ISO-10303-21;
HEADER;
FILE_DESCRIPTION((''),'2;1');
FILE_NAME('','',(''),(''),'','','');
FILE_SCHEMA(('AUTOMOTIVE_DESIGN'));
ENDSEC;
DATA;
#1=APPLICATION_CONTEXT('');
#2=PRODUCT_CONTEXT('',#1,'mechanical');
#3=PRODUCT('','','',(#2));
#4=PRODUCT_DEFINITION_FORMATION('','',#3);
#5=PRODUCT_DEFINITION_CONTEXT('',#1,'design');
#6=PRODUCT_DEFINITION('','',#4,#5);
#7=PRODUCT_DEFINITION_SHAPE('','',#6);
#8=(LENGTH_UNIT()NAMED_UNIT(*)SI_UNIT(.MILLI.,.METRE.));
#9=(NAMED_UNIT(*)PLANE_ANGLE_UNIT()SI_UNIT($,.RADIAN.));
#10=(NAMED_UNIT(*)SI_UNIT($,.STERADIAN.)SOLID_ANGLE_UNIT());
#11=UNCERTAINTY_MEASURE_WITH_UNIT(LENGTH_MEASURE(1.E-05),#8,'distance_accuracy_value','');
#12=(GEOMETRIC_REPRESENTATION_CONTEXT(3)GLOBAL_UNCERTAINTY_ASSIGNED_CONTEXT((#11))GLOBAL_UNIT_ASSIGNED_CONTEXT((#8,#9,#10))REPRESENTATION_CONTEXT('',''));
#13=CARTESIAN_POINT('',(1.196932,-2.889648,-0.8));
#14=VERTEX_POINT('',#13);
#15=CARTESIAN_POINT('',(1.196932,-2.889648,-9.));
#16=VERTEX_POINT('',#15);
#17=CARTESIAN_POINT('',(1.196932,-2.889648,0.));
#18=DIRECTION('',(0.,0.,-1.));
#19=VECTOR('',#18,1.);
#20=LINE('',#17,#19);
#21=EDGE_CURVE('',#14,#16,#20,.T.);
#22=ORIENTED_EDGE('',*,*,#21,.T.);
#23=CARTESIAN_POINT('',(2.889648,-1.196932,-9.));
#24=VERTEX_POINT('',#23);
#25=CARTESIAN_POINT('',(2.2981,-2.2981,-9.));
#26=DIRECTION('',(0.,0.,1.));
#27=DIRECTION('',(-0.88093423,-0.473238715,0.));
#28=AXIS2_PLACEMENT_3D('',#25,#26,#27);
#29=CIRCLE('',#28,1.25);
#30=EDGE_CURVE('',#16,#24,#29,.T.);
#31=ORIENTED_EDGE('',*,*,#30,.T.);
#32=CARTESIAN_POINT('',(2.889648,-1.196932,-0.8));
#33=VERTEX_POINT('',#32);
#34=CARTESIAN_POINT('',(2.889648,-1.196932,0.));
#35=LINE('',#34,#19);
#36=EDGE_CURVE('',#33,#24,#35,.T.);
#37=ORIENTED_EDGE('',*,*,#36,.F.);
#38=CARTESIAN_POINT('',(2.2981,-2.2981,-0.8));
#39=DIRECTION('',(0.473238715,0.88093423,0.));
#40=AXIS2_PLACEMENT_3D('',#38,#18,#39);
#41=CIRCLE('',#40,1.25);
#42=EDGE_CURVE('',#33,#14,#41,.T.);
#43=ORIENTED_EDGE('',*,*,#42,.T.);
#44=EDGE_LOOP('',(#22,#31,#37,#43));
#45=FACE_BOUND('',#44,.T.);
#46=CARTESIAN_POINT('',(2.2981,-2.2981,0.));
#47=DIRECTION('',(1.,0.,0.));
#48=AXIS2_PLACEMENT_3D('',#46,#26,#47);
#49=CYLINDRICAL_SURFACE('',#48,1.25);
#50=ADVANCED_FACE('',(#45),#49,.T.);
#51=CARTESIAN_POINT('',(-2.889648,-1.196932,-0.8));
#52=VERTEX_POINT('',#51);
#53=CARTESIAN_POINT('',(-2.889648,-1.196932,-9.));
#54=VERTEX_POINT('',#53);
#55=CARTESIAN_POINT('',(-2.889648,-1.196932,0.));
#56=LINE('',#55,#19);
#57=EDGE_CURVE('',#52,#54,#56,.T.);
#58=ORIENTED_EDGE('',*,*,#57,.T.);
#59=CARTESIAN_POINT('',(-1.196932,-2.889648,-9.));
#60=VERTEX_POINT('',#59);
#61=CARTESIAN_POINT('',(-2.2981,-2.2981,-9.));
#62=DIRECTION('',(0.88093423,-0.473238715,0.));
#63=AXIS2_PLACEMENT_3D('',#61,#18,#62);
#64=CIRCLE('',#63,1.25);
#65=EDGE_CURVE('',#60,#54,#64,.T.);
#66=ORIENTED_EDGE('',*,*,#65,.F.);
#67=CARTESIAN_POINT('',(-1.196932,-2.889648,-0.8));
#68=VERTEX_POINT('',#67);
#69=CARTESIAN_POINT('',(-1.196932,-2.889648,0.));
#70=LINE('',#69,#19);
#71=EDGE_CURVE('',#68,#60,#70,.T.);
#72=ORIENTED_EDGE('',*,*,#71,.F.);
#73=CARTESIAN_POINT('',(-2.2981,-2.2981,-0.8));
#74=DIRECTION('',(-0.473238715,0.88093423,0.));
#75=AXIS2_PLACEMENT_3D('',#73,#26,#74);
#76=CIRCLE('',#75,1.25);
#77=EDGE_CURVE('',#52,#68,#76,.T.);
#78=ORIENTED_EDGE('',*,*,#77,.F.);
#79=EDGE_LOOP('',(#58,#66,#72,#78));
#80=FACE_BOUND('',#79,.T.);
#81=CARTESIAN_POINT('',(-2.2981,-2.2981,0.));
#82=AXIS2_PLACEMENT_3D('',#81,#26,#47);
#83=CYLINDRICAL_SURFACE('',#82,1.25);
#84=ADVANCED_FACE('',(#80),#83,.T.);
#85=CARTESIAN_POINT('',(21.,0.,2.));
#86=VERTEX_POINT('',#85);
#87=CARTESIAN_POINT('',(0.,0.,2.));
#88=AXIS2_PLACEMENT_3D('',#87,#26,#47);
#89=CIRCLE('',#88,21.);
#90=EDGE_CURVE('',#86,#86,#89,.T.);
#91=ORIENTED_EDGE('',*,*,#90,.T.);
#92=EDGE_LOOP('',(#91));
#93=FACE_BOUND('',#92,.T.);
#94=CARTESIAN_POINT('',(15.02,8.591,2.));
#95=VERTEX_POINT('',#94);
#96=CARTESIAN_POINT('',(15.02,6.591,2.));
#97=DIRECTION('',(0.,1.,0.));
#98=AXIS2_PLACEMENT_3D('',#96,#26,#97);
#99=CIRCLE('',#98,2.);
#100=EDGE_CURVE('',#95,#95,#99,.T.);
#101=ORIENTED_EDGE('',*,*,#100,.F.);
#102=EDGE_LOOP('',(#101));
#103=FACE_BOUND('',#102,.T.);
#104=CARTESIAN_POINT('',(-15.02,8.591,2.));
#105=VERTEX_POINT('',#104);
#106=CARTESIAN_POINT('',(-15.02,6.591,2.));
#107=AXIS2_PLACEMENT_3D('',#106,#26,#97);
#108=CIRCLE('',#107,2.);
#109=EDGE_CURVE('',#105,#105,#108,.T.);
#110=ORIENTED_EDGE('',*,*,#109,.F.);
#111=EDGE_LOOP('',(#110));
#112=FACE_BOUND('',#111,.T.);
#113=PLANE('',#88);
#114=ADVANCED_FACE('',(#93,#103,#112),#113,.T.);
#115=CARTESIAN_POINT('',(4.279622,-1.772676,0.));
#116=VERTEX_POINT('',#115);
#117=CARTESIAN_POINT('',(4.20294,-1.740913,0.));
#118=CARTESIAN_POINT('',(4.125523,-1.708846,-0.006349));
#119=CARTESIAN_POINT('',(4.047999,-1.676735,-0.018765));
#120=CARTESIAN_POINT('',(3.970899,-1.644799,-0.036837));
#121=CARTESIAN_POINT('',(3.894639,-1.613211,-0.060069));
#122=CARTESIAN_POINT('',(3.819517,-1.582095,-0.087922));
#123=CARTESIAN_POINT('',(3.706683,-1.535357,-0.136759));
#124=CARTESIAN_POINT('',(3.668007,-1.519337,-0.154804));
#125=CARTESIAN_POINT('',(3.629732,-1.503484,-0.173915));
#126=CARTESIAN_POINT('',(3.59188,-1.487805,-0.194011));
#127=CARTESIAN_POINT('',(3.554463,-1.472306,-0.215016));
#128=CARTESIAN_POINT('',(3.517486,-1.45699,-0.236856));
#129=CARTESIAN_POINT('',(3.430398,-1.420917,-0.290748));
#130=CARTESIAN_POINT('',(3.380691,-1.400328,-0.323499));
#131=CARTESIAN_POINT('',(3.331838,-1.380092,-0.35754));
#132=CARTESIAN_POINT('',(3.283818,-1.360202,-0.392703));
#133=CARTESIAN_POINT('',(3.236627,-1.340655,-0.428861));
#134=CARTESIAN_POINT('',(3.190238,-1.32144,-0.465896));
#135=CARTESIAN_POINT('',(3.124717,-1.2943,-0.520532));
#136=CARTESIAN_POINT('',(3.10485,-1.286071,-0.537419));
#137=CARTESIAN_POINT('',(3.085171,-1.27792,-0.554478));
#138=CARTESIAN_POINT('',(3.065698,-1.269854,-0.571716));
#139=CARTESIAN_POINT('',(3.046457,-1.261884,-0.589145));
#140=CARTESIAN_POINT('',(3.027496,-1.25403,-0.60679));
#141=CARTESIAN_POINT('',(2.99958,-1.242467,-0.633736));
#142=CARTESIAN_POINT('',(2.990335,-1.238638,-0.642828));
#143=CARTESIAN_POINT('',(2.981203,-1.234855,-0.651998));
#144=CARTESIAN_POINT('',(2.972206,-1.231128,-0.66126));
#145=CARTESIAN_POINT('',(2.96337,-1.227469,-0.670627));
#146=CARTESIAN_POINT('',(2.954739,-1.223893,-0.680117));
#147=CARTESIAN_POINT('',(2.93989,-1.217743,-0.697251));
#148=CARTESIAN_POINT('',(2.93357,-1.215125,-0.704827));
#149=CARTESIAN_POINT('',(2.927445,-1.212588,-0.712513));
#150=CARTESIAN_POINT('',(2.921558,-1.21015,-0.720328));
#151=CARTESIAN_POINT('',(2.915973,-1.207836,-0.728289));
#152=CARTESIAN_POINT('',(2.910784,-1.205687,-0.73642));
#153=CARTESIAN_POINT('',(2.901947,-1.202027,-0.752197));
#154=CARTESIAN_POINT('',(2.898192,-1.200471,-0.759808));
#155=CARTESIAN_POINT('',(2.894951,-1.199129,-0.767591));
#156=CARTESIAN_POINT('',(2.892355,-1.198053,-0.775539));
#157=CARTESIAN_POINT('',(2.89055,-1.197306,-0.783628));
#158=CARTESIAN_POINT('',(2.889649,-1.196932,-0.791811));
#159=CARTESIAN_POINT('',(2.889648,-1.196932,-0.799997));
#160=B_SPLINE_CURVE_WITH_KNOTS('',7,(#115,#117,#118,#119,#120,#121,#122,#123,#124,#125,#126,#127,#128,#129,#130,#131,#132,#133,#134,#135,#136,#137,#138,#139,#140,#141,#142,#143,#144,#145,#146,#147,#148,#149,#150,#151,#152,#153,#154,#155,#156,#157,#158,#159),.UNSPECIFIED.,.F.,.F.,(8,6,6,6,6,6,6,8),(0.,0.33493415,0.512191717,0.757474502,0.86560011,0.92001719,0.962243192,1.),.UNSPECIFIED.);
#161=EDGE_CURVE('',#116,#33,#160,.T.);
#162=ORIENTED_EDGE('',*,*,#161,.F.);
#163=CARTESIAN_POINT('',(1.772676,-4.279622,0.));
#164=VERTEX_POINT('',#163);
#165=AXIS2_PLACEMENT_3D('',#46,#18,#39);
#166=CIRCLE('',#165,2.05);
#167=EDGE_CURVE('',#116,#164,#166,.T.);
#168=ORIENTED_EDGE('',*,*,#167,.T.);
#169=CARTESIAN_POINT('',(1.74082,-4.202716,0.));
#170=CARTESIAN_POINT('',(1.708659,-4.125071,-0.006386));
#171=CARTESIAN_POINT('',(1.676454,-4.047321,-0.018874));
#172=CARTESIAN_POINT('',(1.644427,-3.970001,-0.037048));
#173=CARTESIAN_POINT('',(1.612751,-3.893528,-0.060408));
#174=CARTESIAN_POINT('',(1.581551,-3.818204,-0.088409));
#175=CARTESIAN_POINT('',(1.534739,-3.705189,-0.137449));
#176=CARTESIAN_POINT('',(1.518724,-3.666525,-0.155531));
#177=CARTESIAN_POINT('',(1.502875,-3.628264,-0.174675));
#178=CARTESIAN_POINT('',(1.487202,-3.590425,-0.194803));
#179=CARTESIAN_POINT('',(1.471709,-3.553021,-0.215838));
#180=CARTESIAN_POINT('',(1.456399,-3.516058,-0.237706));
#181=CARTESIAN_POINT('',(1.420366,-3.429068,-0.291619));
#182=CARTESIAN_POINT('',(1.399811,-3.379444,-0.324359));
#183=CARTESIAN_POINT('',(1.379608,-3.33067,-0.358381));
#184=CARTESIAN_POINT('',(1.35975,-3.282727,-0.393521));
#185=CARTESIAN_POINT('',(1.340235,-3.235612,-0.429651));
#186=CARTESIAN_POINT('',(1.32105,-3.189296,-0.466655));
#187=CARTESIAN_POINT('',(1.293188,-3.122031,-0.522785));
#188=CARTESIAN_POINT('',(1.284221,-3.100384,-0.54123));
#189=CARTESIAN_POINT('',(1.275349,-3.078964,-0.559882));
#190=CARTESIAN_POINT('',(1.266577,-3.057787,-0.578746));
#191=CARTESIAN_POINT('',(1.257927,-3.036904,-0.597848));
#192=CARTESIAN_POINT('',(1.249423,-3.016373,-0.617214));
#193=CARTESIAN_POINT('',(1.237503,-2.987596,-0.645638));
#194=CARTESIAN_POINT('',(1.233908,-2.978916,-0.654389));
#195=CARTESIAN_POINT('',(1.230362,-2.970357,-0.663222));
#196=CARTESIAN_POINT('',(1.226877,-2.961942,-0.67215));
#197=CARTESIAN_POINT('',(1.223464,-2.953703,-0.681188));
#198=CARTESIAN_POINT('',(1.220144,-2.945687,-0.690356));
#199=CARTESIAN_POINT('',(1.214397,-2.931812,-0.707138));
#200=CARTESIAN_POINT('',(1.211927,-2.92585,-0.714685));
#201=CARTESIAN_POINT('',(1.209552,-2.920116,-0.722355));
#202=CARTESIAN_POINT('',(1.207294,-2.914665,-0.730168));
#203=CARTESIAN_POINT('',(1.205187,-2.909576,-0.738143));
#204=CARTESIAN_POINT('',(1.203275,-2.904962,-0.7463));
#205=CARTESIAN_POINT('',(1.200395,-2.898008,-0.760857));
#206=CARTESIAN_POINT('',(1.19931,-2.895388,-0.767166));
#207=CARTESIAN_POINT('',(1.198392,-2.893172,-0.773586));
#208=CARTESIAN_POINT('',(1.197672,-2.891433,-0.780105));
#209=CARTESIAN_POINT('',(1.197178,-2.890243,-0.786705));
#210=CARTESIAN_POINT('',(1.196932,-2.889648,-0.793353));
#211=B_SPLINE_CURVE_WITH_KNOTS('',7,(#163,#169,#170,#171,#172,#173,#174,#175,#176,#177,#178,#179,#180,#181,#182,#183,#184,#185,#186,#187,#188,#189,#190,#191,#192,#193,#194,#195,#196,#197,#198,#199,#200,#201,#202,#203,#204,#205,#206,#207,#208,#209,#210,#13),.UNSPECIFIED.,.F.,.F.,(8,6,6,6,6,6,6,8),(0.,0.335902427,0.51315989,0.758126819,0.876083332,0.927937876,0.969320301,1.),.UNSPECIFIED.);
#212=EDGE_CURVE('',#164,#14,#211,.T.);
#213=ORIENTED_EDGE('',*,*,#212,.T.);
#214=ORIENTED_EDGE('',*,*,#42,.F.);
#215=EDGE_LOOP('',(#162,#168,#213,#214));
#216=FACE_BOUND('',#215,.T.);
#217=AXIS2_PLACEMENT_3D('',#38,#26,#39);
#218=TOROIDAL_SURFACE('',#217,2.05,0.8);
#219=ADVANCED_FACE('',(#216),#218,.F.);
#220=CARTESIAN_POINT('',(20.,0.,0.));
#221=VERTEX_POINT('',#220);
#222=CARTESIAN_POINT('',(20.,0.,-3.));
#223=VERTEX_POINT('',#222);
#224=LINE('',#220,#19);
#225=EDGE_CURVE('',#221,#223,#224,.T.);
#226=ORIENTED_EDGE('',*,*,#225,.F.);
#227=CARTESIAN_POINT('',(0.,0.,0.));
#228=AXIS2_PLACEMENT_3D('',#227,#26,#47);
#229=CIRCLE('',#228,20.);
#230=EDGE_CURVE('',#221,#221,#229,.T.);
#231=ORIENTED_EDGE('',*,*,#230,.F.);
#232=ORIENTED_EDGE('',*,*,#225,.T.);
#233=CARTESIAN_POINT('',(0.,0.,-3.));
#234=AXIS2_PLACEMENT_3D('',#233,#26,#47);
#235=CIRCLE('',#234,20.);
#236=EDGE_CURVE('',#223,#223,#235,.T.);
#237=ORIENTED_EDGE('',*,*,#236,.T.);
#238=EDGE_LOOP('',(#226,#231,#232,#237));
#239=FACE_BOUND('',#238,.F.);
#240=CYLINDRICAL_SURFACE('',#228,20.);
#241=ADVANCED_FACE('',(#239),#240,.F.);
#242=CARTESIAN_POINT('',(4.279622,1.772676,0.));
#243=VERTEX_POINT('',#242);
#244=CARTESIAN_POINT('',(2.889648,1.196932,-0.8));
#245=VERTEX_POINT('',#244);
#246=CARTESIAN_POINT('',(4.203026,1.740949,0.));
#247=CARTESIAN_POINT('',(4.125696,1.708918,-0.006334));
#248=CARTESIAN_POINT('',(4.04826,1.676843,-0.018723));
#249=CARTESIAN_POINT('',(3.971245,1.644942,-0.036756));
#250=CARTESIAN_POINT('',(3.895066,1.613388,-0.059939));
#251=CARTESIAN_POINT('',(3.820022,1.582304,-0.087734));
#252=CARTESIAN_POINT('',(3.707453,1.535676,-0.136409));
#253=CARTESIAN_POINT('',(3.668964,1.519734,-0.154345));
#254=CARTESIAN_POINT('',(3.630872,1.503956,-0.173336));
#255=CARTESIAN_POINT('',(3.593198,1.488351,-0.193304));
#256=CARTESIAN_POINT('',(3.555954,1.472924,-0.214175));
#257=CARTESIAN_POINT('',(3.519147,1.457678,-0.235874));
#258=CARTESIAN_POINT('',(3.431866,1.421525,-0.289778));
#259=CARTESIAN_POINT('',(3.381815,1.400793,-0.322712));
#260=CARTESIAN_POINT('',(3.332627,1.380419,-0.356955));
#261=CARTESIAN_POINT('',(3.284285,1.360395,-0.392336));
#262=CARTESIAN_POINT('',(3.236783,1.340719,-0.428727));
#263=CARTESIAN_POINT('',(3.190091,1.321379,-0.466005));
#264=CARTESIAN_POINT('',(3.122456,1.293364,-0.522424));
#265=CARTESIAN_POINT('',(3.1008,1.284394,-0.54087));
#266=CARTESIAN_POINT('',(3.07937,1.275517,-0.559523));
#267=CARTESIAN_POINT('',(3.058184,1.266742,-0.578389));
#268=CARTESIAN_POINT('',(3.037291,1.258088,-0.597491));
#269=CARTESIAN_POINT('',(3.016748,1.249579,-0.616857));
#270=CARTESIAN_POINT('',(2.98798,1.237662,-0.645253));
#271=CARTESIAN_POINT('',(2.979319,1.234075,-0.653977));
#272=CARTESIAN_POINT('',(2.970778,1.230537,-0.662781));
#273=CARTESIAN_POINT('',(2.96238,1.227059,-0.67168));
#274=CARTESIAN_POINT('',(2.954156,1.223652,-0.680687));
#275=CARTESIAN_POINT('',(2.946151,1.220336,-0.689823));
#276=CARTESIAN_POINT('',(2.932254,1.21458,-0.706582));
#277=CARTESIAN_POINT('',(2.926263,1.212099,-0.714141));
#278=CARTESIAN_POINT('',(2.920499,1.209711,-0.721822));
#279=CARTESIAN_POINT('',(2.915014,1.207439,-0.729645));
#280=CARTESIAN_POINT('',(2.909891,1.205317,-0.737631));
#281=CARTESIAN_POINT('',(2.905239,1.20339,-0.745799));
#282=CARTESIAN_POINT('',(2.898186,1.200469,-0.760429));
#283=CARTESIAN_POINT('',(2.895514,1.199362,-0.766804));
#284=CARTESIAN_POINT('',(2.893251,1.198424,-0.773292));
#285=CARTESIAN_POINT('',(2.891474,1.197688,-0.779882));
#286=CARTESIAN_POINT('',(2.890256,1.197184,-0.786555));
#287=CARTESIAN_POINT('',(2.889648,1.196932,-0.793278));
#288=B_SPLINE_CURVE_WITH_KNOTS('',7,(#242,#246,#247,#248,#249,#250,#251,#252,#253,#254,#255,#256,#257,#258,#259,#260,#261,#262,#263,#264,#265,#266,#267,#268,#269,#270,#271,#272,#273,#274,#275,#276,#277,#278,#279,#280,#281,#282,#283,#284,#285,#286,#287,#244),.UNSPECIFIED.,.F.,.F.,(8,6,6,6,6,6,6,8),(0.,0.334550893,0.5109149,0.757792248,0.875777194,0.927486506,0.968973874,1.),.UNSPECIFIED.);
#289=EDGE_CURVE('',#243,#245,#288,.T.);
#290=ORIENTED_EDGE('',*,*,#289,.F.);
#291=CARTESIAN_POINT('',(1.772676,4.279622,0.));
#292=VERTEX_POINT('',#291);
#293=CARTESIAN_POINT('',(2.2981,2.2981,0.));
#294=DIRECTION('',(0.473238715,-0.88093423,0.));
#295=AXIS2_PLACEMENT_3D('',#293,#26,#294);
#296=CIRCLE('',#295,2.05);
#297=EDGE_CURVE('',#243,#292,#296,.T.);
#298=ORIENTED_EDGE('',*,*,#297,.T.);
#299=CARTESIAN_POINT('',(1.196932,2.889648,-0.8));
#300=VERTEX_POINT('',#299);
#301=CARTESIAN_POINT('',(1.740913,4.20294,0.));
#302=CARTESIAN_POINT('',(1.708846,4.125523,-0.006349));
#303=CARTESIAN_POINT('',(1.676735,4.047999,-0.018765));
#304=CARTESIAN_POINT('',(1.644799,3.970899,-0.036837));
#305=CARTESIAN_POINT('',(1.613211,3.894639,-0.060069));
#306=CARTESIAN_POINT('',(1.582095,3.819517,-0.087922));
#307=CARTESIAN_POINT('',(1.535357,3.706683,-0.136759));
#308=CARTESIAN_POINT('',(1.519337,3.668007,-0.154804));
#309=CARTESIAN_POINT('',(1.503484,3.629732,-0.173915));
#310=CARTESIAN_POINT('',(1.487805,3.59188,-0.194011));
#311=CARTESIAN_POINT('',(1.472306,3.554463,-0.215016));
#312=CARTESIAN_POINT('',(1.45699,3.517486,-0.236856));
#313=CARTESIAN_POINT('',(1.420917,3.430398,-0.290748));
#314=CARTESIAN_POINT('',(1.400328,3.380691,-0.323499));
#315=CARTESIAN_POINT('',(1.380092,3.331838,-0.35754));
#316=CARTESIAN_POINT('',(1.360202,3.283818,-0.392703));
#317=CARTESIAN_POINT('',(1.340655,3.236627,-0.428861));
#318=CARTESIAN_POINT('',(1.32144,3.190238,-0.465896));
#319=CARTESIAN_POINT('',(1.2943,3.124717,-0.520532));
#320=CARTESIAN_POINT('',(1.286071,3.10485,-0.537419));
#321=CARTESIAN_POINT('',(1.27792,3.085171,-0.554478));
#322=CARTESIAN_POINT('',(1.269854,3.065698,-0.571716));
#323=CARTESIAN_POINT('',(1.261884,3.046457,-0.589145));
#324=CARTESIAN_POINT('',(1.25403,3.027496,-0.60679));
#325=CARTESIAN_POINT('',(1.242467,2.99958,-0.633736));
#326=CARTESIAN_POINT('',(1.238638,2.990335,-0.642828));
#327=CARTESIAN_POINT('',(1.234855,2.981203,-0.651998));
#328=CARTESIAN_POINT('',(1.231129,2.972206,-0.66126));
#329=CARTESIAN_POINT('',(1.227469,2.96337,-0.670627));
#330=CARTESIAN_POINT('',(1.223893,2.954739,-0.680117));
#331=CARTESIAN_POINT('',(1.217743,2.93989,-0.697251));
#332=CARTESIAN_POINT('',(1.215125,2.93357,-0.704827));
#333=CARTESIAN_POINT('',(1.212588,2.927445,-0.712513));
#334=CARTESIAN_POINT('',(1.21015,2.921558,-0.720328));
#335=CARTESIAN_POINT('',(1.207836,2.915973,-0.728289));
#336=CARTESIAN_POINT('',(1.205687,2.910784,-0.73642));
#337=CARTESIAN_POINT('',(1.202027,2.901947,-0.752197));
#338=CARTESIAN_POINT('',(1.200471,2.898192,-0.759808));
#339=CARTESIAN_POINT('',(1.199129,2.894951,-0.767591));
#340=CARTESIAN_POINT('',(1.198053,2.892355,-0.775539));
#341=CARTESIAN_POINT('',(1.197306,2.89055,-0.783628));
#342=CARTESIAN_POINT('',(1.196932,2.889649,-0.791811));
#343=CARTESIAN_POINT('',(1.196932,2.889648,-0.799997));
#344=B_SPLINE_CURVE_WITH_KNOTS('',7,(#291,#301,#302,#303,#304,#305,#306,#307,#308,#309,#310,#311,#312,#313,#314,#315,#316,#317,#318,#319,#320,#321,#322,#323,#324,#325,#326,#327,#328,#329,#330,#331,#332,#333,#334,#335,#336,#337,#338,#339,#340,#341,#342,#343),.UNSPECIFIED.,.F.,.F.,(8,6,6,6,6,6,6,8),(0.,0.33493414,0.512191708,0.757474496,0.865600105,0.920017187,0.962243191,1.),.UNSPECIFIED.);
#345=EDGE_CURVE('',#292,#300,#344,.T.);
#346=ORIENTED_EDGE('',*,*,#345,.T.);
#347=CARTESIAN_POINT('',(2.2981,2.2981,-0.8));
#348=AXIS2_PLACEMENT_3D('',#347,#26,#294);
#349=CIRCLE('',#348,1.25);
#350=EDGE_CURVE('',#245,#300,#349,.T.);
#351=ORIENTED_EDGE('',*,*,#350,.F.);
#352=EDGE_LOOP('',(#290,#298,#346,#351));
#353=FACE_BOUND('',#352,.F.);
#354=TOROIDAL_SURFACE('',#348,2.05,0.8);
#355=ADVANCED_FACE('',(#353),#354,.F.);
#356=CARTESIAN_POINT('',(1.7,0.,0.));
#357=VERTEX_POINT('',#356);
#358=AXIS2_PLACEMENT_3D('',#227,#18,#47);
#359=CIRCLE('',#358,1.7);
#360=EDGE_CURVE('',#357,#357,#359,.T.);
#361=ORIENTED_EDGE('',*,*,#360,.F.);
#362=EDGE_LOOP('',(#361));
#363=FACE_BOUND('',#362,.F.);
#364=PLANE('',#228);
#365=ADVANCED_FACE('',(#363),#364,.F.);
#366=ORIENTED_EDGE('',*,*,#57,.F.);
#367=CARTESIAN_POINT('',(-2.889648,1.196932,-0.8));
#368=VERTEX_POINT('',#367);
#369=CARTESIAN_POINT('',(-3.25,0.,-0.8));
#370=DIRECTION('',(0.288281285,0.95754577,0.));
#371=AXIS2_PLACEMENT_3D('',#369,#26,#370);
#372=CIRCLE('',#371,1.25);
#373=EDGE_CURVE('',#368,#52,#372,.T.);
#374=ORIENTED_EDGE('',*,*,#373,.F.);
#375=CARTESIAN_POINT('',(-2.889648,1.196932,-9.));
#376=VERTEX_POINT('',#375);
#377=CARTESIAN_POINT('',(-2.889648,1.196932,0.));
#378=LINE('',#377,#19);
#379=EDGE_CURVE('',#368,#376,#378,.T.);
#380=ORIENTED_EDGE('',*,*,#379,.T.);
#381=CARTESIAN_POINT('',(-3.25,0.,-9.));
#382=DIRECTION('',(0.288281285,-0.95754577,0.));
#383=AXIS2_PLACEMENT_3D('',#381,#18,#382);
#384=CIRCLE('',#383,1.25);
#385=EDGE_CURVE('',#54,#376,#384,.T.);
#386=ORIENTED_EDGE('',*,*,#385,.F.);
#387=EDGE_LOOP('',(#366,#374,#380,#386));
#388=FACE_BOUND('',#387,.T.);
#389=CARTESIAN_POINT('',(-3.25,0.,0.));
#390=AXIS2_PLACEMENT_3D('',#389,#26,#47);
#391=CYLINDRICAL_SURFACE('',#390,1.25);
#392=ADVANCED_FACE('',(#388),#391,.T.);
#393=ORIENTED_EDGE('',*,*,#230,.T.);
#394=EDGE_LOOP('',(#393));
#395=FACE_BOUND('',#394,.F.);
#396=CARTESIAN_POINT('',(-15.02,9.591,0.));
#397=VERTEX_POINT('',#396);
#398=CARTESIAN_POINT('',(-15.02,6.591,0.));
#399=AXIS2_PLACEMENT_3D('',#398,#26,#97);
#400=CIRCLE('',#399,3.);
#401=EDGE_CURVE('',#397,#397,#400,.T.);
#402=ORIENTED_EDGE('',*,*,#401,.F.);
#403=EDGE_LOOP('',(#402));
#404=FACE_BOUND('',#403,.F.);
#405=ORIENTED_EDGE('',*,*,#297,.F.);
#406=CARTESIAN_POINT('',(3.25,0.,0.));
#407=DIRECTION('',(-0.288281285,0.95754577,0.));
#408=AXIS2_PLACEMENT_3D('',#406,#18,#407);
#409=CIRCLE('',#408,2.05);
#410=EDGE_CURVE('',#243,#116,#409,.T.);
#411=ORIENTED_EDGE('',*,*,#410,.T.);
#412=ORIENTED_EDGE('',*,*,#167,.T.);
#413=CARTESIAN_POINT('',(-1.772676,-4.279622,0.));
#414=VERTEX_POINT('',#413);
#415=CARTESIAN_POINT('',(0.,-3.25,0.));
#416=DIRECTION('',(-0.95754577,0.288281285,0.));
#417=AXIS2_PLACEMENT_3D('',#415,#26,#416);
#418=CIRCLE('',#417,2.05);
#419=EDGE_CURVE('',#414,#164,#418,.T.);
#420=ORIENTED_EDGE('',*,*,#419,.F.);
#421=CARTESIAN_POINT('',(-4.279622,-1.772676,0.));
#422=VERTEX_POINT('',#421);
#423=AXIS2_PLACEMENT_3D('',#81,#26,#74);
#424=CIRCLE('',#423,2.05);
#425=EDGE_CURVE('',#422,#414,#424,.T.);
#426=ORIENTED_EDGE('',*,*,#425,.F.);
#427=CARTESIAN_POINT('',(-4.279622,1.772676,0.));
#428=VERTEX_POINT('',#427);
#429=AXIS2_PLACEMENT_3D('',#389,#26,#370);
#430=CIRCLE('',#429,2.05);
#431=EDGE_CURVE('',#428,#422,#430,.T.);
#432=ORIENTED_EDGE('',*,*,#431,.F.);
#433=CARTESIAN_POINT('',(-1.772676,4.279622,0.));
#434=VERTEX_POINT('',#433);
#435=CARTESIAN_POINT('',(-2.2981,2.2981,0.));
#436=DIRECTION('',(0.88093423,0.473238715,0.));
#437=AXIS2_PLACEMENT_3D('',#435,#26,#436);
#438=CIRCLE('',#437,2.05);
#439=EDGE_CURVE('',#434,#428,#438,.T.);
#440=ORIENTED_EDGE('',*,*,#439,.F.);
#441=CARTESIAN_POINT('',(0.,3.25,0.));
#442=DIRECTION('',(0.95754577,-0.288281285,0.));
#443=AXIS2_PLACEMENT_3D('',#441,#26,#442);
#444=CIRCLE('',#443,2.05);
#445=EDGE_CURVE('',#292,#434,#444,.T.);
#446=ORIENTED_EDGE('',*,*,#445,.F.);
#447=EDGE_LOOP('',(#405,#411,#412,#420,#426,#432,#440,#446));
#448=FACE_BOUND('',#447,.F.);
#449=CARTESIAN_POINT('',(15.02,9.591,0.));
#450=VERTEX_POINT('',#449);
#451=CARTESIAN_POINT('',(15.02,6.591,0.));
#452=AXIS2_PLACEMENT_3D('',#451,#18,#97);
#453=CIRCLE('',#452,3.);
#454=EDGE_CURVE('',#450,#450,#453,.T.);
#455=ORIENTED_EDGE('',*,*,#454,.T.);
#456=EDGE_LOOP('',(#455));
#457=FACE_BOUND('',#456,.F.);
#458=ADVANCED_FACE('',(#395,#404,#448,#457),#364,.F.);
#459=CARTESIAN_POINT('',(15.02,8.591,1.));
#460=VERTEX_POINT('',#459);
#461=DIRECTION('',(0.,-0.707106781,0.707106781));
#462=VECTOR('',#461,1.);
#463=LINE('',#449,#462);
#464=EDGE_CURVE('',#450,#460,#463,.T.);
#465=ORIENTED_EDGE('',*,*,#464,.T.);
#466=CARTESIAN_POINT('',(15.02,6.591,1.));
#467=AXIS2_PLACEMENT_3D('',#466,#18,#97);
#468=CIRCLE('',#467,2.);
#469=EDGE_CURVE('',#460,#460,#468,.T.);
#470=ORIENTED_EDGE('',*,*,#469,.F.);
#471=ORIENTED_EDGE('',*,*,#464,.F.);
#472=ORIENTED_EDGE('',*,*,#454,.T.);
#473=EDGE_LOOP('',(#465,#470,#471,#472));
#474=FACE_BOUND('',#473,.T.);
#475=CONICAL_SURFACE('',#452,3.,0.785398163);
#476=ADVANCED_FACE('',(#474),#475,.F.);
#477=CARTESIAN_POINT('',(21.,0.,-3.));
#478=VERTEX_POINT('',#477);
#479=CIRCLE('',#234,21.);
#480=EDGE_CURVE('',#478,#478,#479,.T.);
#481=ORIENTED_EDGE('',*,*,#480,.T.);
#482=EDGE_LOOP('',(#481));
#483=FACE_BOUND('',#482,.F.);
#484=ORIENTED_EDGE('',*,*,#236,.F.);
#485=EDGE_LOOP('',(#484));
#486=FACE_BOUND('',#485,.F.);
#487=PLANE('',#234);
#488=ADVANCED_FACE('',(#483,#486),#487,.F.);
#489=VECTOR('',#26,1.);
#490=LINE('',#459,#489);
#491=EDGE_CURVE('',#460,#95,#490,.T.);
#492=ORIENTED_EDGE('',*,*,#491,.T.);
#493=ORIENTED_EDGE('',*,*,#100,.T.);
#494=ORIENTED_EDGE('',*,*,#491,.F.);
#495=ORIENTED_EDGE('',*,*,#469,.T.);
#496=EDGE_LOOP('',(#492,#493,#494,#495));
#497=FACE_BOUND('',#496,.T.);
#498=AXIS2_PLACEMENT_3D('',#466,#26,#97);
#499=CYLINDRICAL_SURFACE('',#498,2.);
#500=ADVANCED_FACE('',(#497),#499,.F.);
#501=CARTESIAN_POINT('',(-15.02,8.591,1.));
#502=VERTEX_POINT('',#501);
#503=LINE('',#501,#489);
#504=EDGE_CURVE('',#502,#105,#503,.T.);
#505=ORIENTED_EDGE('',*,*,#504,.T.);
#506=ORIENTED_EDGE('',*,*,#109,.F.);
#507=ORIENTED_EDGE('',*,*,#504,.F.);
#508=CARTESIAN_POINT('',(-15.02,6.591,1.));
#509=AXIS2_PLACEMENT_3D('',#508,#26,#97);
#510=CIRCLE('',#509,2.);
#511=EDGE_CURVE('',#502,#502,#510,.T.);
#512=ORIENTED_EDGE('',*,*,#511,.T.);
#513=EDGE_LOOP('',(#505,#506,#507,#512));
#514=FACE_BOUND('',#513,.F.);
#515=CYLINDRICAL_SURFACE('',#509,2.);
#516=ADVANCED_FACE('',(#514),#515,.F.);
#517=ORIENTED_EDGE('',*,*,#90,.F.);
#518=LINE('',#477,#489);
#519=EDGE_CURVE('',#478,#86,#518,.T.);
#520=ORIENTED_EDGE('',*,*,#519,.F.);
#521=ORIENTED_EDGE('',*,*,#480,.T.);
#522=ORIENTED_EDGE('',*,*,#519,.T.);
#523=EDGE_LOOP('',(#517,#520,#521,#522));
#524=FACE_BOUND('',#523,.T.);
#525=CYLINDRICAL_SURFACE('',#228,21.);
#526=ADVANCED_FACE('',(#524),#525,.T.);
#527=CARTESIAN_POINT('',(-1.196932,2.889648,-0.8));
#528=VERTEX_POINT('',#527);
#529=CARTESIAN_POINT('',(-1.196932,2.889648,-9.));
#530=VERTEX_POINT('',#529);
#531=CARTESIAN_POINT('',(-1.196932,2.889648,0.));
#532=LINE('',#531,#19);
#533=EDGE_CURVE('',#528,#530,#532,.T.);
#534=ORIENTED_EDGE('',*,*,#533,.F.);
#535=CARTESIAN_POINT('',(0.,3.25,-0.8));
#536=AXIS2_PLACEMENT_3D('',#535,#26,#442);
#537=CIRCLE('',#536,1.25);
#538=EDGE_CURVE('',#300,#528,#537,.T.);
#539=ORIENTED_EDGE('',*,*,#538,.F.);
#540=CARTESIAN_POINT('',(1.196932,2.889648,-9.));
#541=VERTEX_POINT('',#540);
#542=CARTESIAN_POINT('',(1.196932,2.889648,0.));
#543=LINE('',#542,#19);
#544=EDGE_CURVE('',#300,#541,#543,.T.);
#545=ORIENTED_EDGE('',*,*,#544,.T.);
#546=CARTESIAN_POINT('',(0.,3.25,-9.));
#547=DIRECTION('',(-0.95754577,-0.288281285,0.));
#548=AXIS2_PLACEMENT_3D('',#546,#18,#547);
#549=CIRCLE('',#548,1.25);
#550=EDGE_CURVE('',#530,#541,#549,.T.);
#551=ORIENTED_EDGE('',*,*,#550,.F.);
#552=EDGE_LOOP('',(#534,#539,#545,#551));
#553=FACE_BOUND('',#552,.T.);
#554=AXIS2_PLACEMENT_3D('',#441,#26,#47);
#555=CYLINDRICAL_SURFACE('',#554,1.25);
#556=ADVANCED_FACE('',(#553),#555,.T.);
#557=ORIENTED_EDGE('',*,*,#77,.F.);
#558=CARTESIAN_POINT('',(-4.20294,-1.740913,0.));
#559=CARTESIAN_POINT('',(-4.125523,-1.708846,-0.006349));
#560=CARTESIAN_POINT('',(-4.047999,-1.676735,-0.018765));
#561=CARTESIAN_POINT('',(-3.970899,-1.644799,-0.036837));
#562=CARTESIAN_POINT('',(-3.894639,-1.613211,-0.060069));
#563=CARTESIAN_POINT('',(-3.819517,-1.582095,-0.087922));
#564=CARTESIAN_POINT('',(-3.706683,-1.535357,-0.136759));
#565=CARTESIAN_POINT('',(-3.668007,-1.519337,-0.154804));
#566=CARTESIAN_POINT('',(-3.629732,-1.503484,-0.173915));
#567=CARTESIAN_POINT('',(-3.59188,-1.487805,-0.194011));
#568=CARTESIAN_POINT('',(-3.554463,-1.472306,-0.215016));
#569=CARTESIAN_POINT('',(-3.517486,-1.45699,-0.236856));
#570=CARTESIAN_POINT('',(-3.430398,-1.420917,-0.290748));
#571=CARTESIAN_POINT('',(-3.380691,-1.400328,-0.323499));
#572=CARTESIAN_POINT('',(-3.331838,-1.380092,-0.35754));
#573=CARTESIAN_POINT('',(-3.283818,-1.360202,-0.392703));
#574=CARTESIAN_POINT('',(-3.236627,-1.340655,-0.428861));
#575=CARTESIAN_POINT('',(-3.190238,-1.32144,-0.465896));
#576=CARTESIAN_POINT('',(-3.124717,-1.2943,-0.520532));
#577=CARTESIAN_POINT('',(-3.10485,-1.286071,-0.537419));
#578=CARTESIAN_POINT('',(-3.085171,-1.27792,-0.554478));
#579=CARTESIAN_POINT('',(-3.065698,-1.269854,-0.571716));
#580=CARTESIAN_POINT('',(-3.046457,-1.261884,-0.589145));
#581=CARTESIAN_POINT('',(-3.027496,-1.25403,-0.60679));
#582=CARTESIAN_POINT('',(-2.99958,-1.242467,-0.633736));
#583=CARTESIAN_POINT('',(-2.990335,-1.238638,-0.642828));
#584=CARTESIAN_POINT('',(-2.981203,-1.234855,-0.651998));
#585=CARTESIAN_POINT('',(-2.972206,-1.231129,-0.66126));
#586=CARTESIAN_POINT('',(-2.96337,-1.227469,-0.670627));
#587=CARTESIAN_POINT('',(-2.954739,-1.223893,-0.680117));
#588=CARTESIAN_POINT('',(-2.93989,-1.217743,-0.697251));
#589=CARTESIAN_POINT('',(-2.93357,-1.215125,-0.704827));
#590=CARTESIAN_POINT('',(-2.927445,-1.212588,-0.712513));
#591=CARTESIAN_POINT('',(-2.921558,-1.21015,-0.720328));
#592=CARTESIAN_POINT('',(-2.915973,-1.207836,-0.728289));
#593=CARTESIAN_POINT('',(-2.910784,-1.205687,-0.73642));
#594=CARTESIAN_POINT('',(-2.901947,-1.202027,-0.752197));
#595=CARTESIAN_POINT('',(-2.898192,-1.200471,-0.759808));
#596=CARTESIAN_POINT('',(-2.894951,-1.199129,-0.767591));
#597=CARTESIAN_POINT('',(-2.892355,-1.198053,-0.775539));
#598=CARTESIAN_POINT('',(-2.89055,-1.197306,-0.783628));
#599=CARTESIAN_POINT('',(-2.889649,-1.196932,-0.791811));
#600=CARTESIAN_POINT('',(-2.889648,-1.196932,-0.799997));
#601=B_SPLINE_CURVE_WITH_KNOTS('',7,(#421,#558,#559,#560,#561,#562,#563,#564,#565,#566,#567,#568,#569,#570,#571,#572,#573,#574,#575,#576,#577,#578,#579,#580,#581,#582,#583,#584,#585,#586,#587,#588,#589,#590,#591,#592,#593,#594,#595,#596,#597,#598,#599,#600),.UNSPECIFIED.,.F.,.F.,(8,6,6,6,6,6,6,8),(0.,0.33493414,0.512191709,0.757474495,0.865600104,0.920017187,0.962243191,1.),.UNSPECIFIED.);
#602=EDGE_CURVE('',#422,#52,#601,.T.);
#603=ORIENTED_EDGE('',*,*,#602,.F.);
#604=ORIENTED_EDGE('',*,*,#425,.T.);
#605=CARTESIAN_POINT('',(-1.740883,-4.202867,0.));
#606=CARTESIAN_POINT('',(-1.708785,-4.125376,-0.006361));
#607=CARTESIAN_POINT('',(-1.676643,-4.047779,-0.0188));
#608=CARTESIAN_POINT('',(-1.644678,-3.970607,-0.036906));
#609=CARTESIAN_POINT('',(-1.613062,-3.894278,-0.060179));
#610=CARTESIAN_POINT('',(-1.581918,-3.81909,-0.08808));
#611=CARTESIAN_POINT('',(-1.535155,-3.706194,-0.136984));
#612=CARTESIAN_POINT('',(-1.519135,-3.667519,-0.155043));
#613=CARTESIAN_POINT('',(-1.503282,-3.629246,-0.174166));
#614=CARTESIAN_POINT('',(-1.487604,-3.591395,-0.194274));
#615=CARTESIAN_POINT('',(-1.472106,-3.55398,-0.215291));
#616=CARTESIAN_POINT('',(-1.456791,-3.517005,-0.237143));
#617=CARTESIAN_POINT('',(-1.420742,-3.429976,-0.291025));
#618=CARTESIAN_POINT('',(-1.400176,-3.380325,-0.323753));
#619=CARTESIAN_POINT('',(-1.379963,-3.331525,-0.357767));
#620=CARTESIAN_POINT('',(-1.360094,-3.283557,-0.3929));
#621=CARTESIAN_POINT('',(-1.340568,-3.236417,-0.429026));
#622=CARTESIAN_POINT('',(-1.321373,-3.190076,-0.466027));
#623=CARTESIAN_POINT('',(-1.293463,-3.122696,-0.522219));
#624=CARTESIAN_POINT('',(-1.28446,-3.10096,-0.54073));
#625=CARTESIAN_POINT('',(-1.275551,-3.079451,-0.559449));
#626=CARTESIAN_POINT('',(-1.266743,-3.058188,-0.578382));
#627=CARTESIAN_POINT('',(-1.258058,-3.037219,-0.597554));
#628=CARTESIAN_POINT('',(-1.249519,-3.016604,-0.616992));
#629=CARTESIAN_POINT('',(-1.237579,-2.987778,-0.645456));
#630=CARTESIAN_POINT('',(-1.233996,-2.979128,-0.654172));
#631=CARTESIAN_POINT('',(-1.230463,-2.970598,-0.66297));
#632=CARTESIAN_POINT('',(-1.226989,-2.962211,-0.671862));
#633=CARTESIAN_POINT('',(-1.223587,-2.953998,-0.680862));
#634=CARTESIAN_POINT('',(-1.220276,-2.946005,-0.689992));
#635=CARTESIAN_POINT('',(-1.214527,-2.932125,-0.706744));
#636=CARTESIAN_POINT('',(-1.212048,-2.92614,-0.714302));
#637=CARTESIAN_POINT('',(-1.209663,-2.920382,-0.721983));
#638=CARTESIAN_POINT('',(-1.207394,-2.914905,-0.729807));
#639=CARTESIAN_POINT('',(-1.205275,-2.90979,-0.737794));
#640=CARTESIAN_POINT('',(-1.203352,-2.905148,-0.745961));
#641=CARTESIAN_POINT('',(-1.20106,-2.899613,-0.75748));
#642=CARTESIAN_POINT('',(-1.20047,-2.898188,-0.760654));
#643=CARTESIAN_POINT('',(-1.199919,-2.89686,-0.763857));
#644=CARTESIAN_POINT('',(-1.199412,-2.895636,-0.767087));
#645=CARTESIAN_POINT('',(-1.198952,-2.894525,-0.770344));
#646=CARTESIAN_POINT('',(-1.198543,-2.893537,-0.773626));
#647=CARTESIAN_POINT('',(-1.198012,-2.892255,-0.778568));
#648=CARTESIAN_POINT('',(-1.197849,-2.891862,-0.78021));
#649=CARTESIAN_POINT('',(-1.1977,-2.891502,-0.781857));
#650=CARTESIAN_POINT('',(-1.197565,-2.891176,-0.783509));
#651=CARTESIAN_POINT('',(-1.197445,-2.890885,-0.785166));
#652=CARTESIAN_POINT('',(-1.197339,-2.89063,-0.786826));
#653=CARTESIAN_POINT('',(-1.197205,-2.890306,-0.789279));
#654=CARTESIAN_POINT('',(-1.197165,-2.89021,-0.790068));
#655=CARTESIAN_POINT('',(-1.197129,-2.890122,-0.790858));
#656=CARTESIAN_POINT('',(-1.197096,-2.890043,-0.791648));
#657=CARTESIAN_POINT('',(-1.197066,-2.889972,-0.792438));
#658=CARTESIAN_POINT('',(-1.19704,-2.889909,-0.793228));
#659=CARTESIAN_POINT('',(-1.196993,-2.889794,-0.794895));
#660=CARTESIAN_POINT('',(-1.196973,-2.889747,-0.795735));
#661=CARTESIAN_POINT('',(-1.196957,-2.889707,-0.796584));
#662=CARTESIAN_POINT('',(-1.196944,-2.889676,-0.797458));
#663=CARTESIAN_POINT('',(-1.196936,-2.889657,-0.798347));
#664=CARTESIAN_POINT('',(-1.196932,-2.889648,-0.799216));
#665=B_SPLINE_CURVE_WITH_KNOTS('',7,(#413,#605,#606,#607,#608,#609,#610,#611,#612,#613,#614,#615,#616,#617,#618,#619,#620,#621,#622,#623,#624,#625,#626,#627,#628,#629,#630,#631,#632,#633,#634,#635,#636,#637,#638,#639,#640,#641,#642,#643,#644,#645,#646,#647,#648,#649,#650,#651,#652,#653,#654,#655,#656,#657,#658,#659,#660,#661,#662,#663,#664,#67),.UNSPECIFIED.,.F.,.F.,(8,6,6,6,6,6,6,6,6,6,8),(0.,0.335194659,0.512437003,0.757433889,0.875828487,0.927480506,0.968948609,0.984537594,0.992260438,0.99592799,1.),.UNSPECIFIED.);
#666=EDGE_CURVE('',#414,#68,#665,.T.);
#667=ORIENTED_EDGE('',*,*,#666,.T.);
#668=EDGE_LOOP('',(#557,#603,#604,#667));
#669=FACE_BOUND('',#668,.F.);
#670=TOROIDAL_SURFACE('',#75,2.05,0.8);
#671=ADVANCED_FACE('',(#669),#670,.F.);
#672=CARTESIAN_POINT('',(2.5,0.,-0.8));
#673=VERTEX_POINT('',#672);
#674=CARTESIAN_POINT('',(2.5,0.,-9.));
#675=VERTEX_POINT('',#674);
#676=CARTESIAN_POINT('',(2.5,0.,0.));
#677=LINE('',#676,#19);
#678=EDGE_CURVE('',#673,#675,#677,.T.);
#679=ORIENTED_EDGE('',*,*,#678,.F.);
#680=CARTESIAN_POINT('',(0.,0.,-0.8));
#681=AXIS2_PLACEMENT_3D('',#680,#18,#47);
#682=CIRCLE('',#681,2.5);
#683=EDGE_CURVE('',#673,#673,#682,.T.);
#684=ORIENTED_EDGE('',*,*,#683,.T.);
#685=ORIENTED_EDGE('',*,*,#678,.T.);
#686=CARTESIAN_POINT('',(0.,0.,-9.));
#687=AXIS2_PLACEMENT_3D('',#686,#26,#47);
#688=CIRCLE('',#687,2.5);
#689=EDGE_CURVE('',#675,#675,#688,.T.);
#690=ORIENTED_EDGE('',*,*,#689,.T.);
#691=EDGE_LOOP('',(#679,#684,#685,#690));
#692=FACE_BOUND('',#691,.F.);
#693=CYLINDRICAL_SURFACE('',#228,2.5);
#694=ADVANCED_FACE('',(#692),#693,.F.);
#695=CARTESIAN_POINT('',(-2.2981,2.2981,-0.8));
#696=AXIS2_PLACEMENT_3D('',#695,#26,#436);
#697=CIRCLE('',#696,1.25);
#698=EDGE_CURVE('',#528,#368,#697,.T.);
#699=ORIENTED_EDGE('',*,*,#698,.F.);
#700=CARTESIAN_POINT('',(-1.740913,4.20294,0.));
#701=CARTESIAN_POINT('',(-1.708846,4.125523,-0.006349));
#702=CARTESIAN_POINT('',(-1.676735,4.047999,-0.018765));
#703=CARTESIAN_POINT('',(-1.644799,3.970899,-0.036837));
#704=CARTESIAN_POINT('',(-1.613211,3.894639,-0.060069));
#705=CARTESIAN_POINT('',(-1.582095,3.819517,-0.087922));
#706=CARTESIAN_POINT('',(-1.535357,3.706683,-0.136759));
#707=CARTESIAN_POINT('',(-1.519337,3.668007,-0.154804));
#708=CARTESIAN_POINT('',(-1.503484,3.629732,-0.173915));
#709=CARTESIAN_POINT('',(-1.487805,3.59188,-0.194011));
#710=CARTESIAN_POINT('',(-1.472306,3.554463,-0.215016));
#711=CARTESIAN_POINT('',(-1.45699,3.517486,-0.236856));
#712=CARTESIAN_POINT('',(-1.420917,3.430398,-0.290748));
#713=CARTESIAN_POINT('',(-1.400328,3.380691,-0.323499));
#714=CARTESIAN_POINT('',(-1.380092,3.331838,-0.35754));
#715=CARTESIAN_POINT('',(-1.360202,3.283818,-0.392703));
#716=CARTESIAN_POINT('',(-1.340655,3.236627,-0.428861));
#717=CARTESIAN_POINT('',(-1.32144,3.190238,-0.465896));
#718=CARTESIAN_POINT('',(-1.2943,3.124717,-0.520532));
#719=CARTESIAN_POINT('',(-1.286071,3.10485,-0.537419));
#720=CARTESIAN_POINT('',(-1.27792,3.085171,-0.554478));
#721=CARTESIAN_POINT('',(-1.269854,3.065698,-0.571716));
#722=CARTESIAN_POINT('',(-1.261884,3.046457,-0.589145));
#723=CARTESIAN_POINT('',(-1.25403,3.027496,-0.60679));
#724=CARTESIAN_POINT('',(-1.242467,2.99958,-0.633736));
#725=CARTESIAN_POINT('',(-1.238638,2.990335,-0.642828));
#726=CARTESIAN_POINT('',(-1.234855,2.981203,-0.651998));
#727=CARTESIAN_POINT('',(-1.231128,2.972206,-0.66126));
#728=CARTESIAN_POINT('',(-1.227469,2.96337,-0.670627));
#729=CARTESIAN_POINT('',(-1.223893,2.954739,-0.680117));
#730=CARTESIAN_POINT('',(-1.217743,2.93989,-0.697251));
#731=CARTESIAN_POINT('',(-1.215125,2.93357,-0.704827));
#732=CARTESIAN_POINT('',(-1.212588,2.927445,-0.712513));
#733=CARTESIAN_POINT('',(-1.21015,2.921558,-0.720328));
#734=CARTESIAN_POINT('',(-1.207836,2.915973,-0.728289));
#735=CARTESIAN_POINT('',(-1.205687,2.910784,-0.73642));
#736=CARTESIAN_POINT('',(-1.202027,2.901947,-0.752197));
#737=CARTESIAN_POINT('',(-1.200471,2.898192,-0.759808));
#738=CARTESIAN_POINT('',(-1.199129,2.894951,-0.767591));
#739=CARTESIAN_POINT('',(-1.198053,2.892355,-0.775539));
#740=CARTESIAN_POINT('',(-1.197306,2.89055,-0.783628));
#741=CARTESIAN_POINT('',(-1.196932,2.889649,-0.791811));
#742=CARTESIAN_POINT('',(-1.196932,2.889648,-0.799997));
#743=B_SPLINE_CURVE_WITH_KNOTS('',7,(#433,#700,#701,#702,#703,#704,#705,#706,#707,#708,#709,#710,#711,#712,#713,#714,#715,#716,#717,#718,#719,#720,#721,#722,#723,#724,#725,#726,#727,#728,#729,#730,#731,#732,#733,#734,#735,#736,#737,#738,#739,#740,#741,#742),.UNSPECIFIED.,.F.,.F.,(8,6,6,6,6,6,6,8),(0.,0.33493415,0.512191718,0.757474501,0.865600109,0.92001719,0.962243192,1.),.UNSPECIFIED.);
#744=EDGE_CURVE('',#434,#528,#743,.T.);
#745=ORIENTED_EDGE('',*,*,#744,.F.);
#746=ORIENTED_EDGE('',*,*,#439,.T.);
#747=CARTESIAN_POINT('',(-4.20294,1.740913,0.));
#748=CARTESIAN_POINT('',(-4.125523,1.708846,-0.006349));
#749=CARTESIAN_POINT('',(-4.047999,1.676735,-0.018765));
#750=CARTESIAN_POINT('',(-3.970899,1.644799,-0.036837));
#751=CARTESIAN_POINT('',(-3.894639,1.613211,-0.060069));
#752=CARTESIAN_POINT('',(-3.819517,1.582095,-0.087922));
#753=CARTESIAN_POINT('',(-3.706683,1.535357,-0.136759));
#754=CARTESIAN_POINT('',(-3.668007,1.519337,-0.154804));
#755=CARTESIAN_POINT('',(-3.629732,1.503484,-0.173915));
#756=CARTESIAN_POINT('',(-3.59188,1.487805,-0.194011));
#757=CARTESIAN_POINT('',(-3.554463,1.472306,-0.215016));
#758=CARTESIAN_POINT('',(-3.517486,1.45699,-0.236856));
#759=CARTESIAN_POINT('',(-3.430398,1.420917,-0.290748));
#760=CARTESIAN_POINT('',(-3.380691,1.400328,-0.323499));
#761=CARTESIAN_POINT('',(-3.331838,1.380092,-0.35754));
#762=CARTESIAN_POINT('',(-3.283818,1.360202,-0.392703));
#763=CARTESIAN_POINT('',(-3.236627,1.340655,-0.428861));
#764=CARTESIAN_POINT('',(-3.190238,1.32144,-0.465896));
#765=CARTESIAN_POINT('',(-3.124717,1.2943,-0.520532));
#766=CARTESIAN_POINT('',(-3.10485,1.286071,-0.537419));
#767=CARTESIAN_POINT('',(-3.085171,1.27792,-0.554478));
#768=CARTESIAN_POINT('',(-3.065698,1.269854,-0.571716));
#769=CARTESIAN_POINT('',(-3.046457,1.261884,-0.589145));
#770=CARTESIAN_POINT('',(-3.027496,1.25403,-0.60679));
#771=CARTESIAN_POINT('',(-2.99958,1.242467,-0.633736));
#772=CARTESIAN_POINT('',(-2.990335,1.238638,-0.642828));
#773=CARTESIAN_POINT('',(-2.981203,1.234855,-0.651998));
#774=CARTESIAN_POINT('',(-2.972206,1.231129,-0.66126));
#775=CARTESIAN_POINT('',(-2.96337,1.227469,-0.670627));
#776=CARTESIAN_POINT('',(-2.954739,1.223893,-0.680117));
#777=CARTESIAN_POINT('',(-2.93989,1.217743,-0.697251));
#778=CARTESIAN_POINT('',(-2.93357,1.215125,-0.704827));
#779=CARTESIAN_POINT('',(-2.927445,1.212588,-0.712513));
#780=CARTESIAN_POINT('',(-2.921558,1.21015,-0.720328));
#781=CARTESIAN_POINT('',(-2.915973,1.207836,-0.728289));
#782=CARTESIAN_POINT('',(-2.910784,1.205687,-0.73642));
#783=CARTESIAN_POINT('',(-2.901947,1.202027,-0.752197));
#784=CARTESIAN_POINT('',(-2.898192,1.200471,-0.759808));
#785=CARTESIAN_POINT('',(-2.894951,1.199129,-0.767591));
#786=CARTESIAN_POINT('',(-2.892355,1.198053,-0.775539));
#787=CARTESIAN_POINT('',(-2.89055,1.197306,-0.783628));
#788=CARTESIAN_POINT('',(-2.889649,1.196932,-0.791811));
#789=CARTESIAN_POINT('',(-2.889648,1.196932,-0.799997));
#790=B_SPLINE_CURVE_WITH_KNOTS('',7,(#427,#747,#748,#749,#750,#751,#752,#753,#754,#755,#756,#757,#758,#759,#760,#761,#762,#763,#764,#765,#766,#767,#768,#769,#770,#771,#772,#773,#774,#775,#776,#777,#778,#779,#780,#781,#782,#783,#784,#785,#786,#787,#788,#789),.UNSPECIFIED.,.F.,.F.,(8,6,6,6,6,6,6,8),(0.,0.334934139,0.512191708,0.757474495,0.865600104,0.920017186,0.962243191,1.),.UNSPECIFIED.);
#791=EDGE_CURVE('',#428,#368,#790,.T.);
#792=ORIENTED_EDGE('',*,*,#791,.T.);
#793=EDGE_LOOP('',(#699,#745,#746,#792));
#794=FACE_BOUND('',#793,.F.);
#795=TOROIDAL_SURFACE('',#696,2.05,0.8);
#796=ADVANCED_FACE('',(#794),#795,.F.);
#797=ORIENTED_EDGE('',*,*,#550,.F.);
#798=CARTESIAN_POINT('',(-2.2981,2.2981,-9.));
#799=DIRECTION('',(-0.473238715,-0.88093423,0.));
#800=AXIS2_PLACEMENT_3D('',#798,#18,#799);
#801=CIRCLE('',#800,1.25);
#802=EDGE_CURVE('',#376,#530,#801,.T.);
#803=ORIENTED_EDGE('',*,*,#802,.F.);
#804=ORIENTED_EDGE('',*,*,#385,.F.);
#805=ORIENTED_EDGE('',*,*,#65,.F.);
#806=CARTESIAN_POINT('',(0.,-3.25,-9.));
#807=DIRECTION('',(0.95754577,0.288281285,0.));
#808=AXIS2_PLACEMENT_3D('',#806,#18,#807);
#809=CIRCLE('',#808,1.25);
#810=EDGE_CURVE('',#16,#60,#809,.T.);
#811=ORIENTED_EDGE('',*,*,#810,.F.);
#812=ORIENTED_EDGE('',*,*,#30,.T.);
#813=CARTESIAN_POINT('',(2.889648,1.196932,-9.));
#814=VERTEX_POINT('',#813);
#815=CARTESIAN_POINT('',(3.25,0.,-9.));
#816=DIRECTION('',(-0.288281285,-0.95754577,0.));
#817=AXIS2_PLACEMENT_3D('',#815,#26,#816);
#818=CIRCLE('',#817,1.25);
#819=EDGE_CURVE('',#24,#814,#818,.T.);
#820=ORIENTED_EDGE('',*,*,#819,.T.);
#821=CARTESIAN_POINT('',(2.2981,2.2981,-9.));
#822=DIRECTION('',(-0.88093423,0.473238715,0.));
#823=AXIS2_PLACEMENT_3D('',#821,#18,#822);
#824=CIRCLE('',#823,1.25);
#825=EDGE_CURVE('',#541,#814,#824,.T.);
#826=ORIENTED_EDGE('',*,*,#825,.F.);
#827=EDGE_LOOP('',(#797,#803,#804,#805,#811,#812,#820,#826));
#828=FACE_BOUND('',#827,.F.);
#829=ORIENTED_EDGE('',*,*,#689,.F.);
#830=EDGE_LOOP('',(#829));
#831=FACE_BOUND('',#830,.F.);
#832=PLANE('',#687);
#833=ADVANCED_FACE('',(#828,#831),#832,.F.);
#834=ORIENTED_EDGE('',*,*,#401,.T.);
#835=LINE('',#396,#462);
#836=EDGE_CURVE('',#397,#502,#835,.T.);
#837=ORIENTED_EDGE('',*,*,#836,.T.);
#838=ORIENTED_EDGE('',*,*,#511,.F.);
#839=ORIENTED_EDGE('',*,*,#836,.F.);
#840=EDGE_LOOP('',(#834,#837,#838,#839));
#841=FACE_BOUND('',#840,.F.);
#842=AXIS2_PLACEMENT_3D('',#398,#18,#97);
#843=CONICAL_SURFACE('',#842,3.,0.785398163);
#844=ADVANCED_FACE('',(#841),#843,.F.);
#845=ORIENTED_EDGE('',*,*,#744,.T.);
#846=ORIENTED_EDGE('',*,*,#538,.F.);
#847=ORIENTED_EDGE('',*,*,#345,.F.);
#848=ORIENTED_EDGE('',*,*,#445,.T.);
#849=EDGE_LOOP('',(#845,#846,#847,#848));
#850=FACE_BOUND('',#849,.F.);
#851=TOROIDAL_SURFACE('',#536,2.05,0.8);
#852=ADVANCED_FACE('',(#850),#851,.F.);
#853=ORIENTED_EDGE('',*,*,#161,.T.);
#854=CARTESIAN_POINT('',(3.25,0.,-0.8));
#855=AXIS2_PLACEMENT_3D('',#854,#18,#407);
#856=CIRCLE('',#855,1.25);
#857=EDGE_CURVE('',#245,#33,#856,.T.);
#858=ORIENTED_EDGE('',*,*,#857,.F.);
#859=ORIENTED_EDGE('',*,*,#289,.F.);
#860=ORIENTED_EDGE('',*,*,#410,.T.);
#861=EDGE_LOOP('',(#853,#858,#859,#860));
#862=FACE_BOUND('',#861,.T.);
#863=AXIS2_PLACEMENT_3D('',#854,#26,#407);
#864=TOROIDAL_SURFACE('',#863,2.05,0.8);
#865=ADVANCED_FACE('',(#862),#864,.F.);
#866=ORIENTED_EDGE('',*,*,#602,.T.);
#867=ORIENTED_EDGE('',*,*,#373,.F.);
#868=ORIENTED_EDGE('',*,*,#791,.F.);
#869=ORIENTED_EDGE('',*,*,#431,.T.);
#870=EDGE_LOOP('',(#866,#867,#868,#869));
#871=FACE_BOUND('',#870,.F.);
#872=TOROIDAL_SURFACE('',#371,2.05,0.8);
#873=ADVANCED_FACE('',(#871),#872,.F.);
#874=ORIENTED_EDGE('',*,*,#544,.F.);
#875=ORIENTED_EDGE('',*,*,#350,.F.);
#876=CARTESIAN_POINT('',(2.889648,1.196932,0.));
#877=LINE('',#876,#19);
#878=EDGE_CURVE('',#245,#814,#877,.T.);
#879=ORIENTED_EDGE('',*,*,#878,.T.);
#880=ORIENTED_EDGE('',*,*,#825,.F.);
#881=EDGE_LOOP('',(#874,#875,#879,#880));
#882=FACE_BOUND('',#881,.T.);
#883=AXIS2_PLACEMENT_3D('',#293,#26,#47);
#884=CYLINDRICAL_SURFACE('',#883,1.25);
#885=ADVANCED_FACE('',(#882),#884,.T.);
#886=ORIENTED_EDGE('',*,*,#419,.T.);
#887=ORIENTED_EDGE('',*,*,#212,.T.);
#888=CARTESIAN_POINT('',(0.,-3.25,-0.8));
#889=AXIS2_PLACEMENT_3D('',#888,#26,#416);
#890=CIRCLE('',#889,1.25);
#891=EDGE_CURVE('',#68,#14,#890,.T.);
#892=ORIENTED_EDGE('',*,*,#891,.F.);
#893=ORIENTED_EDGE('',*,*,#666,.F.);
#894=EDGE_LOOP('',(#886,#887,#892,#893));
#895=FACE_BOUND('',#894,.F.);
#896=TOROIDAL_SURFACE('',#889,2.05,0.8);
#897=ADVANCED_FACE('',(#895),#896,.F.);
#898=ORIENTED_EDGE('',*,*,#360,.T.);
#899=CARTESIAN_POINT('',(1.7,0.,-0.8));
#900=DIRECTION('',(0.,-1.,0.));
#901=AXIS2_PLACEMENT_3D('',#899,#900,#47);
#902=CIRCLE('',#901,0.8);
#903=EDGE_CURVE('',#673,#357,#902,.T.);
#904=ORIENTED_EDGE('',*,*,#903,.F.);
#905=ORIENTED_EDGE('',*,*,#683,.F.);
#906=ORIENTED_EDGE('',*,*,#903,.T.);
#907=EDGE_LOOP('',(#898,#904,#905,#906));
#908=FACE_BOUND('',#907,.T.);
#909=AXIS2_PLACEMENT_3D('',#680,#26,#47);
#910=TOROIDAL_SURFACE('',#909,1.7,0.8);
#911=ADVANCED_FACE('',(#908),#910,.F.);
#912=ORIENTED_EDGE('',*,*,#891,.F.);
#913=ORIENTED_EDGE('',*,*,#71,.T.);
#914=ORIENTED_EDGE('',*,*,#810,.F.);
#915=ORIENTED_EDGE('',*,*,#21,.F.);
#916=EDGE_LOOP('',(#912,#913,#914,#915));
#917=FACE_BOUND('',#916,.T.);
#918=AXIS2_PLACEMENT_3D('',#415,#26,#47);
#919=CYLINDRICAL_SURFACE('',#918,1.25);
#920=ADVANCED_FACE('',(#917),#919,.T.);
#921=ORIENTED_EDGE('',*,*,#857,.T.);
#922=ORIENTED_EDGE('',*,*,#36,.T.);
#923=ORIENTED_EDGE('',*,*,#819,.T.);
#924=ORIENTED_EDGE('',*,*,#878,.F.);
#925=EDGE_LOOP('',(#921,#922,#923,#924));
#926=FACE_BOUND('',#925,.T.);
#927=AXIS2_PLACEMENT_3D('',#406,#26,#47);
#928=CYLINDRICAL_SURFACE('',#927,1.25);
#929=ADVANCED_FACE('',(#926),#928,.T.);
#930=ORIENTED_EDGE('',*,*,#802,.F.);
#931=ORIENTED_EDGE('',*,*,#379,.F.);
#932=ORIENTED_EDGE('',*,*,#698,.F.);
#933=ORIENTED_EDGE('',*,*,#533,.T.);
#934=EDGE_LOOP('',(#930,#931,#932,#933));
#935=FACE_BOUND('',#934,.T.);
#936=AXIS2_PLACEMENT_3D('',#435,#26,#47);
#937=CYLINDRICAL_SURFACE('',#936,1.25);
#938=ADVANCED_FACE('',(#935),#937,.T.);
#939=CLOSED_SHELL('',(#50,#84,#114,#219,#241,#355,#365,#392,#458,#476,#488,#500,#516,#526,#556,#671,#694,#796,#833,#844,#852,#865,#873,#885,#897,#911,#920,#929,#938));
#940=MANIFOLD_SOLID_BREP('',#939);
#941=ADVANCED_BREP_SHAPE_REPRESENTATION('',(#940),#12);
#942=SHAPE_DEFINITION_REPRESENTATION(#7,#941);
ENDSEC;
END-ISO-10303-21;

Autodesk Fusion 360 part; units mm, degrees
sketch "Sketch1" plane through (0, 0, 0) normal (0, 0, 1) x (1, 0, 0) in component "BlindSupport"
  circle A0 centre (0, 0) radius 20
  circle A1 centre (0, 0) radius 21
  circle A2 centre (0, 0) radius 2.5
  circle A3 centre (0, 0) radius 4.5
  line L0 (0, 0) -> (0, 4.5)
  line L1 (0, 0) -> (-3.182, 3.182)
  line L2 (0, 0) -> (-4.5, 0)
  line L3 (0, 0) -> (-3.182, -3.182)
  line L4 (0, 0) -> (0, -4.5)
  line L5 (0, 0) -> (3.182, -3.182)
  line L6 (0, 0) -> (4.5, 0)
  line L7 (0, 0) -> (3.182, 3.182)
  line L8 (0, 0) -> (0, 40.0695) construction
  circle A4 centre (-15, 6.5991) radius 2
  circle A5 centre (15, 6.5991) radius 2
  line L9 (15, 6.5991) -> (-15, 6.5991) construction
  line L10 (-19.5984, 22.5991) -> (25.099, 22.5991) construction
  circle A6 centre (0, 3.25) radius 1.25
  circle A7 centre (-2.2981, 2.2981) radius 1.25
  circle A8 centre (-3.25, 0) radius 1.25
  circle A9 centre (-2.2981, -2.2981) radius 1.25
  circle A10 centre (0, -3.25) radius 1.25
  circle A11 centre (2.2981, -2.2981) radius 1.25
  circle A12 centre (3.25, 0) radius 1.25
  circle A13 centre (2.2981, 2.2981) radius 1.25
  point P0 (0, 6.5991)
  point P1 (-15, 6.5991)
  dimension "d1" = 40
  dimension "d2" = 1
  dimension "d3" = 5
  dimension "d4" = 9
  dimension "d6" = 360
  dimension "d7" = 4
  dimension "d8" = 30
  dimension "d9" = 16
  dimension "d12" = 2.5
  dimension "d14" = 360
extrude "Extrude1" add sketch "Sketch1" along normal blind 2 contours A0 | A1 | A2 L6 A12 | A2 L6 A11 A12 | A2 L6 A12 A13 | A2 L6 A12 | A2 L6 L7 A12 A13 | A2 A12 A13 | A2 A11 A12 | A2 L5 L6 A11 A12 | A3 A12 A13 | A3 A11 A12 | A2 L7 A13 | A2 L7 A12 A13 | A12 A13 | A2 L5 A11 A12 | A2 L5 A11 | A11 A12 | A3 A6 A13 | A2 L7 A6 A13 | A2 L5 A10 A11 | A3 A10 A11 | A2 L0 L1 A6 A7 | A2 L1 L2 A7 A8 | A2 L2 L3 A8 A9 | A2 L3 L4 A9 A10 | A2 L4 L5 A10 A11 | A2 L0 L7 A6 A13 | A2 L7 A13 | A2 L5 A11 | A3 A6 A7 | A2 L0 A6 A13 | A2 L0 A6 A7 | A6 A13 | A2 L4 A9 A10 | A2 L4 A10 A11 | A3 A9 A10 | A10 A11 | A2 L0 A6 | A2 L0 A6 | A2 L1 A7 | A2 L1 A7 | A2 L2 A8 | A2 L2 A8 | A2 L3 A9 | A2 L3 A9 | A2 L4 A10 | A2 L4 A10 | A2 A6 A13 | A2 A10 A11 | A3 A7 A8 | A2 L1 A6 A7 | A2 L1 A7 A8 | A6 A7 | A2 L3 A8 A9 | A3 A8 A9 | A2 L3 A9 A10 | A9 A10 | A2 A6 A7 | A2 A7 A8 | A2 L2 A7 A8 | A2 L2 A8 A9 | A2 A8 A9 | A2 A9 A10 | A7 A8 | A8 A9 | A4 | A5 in component "BlindSupport"
extrude "Extrude2" add sketch "Sketch1" against normal blind 9 contours A2 L6 A11 A12 | A2 L6 A12 A13 | A2 A12 A13 | A2 A11 A12 | A2 L7 A12 A13 | A12 A13 | A2 L5 A11 A12 | A11 A12 | A2 L7 A6 A13 | A2 L5 A10 A11 | A2 L0 A6 A13 | A2 L0 A6 A7 | A6 A13 | A2 L4 A9 A10 | A2 L4 A10 A11 | A10 A11 | A2 A6 A13 | A2 A10 A11 | A2 L1 A6 A7 | A2 L1 A7 A8 | A6 A7 | A2 L3 A8 A9 | A2 L3 A9 A10 | A9 A10 | A2 A6 A7 | A2 A7 A8 | A2 L2 A7 A8 | A2 L2 A8 A9 | A2 A8 A9 | A2 A9 A10 | A7 A8 | A8 A9 in component "BlindSupport"
extrude "Extrude3" add sketch "Sketch1" against normal blind 3 contours A1 in component "BlindSupport"
sketch "Sketch2" plane through (0, 0, 2) normal (0, 0, 1) x (-1, 0, 0) in component "BlindSupport"
  circle A0 centre (0, 0) radius 21
  point P0 (-15, -6.5991)
  point P1 (15, -6.5991)
hole "Hole1" at (-15.02, 6.591, 0) direction (0, 0, 1) diameter 4 depth 4.5 tip angle 118 countersink diameter 6 countersink angle 90 in component "BlindSupport"
mirror "Mirror1" about plane through (0, 0, 0) normal (1, 0, 0) of "Hole1" in component "BlindSupport"
fillet "Fillet1" radius 0.8 8 edges at (0, -4.5, 0) (3.182, -3.182, 0) (4.5, 0, 0) (3.182, 3.182, 0) (0, 4.5, 0) (-3.182, 3.182, 0) (-4.5, 0, 0) (-3.182, -3.182, 0) in component "BlindSupport"
fillet "Fillet2" radius 0.8 1 edges at (-2.3308, 0.904, 0) in component "BlindSupport"
component "BlindSupport" placed x (1, 0, 0) y (0, 1, 0) z (0, 0, 1) at (0, 0, 0)
